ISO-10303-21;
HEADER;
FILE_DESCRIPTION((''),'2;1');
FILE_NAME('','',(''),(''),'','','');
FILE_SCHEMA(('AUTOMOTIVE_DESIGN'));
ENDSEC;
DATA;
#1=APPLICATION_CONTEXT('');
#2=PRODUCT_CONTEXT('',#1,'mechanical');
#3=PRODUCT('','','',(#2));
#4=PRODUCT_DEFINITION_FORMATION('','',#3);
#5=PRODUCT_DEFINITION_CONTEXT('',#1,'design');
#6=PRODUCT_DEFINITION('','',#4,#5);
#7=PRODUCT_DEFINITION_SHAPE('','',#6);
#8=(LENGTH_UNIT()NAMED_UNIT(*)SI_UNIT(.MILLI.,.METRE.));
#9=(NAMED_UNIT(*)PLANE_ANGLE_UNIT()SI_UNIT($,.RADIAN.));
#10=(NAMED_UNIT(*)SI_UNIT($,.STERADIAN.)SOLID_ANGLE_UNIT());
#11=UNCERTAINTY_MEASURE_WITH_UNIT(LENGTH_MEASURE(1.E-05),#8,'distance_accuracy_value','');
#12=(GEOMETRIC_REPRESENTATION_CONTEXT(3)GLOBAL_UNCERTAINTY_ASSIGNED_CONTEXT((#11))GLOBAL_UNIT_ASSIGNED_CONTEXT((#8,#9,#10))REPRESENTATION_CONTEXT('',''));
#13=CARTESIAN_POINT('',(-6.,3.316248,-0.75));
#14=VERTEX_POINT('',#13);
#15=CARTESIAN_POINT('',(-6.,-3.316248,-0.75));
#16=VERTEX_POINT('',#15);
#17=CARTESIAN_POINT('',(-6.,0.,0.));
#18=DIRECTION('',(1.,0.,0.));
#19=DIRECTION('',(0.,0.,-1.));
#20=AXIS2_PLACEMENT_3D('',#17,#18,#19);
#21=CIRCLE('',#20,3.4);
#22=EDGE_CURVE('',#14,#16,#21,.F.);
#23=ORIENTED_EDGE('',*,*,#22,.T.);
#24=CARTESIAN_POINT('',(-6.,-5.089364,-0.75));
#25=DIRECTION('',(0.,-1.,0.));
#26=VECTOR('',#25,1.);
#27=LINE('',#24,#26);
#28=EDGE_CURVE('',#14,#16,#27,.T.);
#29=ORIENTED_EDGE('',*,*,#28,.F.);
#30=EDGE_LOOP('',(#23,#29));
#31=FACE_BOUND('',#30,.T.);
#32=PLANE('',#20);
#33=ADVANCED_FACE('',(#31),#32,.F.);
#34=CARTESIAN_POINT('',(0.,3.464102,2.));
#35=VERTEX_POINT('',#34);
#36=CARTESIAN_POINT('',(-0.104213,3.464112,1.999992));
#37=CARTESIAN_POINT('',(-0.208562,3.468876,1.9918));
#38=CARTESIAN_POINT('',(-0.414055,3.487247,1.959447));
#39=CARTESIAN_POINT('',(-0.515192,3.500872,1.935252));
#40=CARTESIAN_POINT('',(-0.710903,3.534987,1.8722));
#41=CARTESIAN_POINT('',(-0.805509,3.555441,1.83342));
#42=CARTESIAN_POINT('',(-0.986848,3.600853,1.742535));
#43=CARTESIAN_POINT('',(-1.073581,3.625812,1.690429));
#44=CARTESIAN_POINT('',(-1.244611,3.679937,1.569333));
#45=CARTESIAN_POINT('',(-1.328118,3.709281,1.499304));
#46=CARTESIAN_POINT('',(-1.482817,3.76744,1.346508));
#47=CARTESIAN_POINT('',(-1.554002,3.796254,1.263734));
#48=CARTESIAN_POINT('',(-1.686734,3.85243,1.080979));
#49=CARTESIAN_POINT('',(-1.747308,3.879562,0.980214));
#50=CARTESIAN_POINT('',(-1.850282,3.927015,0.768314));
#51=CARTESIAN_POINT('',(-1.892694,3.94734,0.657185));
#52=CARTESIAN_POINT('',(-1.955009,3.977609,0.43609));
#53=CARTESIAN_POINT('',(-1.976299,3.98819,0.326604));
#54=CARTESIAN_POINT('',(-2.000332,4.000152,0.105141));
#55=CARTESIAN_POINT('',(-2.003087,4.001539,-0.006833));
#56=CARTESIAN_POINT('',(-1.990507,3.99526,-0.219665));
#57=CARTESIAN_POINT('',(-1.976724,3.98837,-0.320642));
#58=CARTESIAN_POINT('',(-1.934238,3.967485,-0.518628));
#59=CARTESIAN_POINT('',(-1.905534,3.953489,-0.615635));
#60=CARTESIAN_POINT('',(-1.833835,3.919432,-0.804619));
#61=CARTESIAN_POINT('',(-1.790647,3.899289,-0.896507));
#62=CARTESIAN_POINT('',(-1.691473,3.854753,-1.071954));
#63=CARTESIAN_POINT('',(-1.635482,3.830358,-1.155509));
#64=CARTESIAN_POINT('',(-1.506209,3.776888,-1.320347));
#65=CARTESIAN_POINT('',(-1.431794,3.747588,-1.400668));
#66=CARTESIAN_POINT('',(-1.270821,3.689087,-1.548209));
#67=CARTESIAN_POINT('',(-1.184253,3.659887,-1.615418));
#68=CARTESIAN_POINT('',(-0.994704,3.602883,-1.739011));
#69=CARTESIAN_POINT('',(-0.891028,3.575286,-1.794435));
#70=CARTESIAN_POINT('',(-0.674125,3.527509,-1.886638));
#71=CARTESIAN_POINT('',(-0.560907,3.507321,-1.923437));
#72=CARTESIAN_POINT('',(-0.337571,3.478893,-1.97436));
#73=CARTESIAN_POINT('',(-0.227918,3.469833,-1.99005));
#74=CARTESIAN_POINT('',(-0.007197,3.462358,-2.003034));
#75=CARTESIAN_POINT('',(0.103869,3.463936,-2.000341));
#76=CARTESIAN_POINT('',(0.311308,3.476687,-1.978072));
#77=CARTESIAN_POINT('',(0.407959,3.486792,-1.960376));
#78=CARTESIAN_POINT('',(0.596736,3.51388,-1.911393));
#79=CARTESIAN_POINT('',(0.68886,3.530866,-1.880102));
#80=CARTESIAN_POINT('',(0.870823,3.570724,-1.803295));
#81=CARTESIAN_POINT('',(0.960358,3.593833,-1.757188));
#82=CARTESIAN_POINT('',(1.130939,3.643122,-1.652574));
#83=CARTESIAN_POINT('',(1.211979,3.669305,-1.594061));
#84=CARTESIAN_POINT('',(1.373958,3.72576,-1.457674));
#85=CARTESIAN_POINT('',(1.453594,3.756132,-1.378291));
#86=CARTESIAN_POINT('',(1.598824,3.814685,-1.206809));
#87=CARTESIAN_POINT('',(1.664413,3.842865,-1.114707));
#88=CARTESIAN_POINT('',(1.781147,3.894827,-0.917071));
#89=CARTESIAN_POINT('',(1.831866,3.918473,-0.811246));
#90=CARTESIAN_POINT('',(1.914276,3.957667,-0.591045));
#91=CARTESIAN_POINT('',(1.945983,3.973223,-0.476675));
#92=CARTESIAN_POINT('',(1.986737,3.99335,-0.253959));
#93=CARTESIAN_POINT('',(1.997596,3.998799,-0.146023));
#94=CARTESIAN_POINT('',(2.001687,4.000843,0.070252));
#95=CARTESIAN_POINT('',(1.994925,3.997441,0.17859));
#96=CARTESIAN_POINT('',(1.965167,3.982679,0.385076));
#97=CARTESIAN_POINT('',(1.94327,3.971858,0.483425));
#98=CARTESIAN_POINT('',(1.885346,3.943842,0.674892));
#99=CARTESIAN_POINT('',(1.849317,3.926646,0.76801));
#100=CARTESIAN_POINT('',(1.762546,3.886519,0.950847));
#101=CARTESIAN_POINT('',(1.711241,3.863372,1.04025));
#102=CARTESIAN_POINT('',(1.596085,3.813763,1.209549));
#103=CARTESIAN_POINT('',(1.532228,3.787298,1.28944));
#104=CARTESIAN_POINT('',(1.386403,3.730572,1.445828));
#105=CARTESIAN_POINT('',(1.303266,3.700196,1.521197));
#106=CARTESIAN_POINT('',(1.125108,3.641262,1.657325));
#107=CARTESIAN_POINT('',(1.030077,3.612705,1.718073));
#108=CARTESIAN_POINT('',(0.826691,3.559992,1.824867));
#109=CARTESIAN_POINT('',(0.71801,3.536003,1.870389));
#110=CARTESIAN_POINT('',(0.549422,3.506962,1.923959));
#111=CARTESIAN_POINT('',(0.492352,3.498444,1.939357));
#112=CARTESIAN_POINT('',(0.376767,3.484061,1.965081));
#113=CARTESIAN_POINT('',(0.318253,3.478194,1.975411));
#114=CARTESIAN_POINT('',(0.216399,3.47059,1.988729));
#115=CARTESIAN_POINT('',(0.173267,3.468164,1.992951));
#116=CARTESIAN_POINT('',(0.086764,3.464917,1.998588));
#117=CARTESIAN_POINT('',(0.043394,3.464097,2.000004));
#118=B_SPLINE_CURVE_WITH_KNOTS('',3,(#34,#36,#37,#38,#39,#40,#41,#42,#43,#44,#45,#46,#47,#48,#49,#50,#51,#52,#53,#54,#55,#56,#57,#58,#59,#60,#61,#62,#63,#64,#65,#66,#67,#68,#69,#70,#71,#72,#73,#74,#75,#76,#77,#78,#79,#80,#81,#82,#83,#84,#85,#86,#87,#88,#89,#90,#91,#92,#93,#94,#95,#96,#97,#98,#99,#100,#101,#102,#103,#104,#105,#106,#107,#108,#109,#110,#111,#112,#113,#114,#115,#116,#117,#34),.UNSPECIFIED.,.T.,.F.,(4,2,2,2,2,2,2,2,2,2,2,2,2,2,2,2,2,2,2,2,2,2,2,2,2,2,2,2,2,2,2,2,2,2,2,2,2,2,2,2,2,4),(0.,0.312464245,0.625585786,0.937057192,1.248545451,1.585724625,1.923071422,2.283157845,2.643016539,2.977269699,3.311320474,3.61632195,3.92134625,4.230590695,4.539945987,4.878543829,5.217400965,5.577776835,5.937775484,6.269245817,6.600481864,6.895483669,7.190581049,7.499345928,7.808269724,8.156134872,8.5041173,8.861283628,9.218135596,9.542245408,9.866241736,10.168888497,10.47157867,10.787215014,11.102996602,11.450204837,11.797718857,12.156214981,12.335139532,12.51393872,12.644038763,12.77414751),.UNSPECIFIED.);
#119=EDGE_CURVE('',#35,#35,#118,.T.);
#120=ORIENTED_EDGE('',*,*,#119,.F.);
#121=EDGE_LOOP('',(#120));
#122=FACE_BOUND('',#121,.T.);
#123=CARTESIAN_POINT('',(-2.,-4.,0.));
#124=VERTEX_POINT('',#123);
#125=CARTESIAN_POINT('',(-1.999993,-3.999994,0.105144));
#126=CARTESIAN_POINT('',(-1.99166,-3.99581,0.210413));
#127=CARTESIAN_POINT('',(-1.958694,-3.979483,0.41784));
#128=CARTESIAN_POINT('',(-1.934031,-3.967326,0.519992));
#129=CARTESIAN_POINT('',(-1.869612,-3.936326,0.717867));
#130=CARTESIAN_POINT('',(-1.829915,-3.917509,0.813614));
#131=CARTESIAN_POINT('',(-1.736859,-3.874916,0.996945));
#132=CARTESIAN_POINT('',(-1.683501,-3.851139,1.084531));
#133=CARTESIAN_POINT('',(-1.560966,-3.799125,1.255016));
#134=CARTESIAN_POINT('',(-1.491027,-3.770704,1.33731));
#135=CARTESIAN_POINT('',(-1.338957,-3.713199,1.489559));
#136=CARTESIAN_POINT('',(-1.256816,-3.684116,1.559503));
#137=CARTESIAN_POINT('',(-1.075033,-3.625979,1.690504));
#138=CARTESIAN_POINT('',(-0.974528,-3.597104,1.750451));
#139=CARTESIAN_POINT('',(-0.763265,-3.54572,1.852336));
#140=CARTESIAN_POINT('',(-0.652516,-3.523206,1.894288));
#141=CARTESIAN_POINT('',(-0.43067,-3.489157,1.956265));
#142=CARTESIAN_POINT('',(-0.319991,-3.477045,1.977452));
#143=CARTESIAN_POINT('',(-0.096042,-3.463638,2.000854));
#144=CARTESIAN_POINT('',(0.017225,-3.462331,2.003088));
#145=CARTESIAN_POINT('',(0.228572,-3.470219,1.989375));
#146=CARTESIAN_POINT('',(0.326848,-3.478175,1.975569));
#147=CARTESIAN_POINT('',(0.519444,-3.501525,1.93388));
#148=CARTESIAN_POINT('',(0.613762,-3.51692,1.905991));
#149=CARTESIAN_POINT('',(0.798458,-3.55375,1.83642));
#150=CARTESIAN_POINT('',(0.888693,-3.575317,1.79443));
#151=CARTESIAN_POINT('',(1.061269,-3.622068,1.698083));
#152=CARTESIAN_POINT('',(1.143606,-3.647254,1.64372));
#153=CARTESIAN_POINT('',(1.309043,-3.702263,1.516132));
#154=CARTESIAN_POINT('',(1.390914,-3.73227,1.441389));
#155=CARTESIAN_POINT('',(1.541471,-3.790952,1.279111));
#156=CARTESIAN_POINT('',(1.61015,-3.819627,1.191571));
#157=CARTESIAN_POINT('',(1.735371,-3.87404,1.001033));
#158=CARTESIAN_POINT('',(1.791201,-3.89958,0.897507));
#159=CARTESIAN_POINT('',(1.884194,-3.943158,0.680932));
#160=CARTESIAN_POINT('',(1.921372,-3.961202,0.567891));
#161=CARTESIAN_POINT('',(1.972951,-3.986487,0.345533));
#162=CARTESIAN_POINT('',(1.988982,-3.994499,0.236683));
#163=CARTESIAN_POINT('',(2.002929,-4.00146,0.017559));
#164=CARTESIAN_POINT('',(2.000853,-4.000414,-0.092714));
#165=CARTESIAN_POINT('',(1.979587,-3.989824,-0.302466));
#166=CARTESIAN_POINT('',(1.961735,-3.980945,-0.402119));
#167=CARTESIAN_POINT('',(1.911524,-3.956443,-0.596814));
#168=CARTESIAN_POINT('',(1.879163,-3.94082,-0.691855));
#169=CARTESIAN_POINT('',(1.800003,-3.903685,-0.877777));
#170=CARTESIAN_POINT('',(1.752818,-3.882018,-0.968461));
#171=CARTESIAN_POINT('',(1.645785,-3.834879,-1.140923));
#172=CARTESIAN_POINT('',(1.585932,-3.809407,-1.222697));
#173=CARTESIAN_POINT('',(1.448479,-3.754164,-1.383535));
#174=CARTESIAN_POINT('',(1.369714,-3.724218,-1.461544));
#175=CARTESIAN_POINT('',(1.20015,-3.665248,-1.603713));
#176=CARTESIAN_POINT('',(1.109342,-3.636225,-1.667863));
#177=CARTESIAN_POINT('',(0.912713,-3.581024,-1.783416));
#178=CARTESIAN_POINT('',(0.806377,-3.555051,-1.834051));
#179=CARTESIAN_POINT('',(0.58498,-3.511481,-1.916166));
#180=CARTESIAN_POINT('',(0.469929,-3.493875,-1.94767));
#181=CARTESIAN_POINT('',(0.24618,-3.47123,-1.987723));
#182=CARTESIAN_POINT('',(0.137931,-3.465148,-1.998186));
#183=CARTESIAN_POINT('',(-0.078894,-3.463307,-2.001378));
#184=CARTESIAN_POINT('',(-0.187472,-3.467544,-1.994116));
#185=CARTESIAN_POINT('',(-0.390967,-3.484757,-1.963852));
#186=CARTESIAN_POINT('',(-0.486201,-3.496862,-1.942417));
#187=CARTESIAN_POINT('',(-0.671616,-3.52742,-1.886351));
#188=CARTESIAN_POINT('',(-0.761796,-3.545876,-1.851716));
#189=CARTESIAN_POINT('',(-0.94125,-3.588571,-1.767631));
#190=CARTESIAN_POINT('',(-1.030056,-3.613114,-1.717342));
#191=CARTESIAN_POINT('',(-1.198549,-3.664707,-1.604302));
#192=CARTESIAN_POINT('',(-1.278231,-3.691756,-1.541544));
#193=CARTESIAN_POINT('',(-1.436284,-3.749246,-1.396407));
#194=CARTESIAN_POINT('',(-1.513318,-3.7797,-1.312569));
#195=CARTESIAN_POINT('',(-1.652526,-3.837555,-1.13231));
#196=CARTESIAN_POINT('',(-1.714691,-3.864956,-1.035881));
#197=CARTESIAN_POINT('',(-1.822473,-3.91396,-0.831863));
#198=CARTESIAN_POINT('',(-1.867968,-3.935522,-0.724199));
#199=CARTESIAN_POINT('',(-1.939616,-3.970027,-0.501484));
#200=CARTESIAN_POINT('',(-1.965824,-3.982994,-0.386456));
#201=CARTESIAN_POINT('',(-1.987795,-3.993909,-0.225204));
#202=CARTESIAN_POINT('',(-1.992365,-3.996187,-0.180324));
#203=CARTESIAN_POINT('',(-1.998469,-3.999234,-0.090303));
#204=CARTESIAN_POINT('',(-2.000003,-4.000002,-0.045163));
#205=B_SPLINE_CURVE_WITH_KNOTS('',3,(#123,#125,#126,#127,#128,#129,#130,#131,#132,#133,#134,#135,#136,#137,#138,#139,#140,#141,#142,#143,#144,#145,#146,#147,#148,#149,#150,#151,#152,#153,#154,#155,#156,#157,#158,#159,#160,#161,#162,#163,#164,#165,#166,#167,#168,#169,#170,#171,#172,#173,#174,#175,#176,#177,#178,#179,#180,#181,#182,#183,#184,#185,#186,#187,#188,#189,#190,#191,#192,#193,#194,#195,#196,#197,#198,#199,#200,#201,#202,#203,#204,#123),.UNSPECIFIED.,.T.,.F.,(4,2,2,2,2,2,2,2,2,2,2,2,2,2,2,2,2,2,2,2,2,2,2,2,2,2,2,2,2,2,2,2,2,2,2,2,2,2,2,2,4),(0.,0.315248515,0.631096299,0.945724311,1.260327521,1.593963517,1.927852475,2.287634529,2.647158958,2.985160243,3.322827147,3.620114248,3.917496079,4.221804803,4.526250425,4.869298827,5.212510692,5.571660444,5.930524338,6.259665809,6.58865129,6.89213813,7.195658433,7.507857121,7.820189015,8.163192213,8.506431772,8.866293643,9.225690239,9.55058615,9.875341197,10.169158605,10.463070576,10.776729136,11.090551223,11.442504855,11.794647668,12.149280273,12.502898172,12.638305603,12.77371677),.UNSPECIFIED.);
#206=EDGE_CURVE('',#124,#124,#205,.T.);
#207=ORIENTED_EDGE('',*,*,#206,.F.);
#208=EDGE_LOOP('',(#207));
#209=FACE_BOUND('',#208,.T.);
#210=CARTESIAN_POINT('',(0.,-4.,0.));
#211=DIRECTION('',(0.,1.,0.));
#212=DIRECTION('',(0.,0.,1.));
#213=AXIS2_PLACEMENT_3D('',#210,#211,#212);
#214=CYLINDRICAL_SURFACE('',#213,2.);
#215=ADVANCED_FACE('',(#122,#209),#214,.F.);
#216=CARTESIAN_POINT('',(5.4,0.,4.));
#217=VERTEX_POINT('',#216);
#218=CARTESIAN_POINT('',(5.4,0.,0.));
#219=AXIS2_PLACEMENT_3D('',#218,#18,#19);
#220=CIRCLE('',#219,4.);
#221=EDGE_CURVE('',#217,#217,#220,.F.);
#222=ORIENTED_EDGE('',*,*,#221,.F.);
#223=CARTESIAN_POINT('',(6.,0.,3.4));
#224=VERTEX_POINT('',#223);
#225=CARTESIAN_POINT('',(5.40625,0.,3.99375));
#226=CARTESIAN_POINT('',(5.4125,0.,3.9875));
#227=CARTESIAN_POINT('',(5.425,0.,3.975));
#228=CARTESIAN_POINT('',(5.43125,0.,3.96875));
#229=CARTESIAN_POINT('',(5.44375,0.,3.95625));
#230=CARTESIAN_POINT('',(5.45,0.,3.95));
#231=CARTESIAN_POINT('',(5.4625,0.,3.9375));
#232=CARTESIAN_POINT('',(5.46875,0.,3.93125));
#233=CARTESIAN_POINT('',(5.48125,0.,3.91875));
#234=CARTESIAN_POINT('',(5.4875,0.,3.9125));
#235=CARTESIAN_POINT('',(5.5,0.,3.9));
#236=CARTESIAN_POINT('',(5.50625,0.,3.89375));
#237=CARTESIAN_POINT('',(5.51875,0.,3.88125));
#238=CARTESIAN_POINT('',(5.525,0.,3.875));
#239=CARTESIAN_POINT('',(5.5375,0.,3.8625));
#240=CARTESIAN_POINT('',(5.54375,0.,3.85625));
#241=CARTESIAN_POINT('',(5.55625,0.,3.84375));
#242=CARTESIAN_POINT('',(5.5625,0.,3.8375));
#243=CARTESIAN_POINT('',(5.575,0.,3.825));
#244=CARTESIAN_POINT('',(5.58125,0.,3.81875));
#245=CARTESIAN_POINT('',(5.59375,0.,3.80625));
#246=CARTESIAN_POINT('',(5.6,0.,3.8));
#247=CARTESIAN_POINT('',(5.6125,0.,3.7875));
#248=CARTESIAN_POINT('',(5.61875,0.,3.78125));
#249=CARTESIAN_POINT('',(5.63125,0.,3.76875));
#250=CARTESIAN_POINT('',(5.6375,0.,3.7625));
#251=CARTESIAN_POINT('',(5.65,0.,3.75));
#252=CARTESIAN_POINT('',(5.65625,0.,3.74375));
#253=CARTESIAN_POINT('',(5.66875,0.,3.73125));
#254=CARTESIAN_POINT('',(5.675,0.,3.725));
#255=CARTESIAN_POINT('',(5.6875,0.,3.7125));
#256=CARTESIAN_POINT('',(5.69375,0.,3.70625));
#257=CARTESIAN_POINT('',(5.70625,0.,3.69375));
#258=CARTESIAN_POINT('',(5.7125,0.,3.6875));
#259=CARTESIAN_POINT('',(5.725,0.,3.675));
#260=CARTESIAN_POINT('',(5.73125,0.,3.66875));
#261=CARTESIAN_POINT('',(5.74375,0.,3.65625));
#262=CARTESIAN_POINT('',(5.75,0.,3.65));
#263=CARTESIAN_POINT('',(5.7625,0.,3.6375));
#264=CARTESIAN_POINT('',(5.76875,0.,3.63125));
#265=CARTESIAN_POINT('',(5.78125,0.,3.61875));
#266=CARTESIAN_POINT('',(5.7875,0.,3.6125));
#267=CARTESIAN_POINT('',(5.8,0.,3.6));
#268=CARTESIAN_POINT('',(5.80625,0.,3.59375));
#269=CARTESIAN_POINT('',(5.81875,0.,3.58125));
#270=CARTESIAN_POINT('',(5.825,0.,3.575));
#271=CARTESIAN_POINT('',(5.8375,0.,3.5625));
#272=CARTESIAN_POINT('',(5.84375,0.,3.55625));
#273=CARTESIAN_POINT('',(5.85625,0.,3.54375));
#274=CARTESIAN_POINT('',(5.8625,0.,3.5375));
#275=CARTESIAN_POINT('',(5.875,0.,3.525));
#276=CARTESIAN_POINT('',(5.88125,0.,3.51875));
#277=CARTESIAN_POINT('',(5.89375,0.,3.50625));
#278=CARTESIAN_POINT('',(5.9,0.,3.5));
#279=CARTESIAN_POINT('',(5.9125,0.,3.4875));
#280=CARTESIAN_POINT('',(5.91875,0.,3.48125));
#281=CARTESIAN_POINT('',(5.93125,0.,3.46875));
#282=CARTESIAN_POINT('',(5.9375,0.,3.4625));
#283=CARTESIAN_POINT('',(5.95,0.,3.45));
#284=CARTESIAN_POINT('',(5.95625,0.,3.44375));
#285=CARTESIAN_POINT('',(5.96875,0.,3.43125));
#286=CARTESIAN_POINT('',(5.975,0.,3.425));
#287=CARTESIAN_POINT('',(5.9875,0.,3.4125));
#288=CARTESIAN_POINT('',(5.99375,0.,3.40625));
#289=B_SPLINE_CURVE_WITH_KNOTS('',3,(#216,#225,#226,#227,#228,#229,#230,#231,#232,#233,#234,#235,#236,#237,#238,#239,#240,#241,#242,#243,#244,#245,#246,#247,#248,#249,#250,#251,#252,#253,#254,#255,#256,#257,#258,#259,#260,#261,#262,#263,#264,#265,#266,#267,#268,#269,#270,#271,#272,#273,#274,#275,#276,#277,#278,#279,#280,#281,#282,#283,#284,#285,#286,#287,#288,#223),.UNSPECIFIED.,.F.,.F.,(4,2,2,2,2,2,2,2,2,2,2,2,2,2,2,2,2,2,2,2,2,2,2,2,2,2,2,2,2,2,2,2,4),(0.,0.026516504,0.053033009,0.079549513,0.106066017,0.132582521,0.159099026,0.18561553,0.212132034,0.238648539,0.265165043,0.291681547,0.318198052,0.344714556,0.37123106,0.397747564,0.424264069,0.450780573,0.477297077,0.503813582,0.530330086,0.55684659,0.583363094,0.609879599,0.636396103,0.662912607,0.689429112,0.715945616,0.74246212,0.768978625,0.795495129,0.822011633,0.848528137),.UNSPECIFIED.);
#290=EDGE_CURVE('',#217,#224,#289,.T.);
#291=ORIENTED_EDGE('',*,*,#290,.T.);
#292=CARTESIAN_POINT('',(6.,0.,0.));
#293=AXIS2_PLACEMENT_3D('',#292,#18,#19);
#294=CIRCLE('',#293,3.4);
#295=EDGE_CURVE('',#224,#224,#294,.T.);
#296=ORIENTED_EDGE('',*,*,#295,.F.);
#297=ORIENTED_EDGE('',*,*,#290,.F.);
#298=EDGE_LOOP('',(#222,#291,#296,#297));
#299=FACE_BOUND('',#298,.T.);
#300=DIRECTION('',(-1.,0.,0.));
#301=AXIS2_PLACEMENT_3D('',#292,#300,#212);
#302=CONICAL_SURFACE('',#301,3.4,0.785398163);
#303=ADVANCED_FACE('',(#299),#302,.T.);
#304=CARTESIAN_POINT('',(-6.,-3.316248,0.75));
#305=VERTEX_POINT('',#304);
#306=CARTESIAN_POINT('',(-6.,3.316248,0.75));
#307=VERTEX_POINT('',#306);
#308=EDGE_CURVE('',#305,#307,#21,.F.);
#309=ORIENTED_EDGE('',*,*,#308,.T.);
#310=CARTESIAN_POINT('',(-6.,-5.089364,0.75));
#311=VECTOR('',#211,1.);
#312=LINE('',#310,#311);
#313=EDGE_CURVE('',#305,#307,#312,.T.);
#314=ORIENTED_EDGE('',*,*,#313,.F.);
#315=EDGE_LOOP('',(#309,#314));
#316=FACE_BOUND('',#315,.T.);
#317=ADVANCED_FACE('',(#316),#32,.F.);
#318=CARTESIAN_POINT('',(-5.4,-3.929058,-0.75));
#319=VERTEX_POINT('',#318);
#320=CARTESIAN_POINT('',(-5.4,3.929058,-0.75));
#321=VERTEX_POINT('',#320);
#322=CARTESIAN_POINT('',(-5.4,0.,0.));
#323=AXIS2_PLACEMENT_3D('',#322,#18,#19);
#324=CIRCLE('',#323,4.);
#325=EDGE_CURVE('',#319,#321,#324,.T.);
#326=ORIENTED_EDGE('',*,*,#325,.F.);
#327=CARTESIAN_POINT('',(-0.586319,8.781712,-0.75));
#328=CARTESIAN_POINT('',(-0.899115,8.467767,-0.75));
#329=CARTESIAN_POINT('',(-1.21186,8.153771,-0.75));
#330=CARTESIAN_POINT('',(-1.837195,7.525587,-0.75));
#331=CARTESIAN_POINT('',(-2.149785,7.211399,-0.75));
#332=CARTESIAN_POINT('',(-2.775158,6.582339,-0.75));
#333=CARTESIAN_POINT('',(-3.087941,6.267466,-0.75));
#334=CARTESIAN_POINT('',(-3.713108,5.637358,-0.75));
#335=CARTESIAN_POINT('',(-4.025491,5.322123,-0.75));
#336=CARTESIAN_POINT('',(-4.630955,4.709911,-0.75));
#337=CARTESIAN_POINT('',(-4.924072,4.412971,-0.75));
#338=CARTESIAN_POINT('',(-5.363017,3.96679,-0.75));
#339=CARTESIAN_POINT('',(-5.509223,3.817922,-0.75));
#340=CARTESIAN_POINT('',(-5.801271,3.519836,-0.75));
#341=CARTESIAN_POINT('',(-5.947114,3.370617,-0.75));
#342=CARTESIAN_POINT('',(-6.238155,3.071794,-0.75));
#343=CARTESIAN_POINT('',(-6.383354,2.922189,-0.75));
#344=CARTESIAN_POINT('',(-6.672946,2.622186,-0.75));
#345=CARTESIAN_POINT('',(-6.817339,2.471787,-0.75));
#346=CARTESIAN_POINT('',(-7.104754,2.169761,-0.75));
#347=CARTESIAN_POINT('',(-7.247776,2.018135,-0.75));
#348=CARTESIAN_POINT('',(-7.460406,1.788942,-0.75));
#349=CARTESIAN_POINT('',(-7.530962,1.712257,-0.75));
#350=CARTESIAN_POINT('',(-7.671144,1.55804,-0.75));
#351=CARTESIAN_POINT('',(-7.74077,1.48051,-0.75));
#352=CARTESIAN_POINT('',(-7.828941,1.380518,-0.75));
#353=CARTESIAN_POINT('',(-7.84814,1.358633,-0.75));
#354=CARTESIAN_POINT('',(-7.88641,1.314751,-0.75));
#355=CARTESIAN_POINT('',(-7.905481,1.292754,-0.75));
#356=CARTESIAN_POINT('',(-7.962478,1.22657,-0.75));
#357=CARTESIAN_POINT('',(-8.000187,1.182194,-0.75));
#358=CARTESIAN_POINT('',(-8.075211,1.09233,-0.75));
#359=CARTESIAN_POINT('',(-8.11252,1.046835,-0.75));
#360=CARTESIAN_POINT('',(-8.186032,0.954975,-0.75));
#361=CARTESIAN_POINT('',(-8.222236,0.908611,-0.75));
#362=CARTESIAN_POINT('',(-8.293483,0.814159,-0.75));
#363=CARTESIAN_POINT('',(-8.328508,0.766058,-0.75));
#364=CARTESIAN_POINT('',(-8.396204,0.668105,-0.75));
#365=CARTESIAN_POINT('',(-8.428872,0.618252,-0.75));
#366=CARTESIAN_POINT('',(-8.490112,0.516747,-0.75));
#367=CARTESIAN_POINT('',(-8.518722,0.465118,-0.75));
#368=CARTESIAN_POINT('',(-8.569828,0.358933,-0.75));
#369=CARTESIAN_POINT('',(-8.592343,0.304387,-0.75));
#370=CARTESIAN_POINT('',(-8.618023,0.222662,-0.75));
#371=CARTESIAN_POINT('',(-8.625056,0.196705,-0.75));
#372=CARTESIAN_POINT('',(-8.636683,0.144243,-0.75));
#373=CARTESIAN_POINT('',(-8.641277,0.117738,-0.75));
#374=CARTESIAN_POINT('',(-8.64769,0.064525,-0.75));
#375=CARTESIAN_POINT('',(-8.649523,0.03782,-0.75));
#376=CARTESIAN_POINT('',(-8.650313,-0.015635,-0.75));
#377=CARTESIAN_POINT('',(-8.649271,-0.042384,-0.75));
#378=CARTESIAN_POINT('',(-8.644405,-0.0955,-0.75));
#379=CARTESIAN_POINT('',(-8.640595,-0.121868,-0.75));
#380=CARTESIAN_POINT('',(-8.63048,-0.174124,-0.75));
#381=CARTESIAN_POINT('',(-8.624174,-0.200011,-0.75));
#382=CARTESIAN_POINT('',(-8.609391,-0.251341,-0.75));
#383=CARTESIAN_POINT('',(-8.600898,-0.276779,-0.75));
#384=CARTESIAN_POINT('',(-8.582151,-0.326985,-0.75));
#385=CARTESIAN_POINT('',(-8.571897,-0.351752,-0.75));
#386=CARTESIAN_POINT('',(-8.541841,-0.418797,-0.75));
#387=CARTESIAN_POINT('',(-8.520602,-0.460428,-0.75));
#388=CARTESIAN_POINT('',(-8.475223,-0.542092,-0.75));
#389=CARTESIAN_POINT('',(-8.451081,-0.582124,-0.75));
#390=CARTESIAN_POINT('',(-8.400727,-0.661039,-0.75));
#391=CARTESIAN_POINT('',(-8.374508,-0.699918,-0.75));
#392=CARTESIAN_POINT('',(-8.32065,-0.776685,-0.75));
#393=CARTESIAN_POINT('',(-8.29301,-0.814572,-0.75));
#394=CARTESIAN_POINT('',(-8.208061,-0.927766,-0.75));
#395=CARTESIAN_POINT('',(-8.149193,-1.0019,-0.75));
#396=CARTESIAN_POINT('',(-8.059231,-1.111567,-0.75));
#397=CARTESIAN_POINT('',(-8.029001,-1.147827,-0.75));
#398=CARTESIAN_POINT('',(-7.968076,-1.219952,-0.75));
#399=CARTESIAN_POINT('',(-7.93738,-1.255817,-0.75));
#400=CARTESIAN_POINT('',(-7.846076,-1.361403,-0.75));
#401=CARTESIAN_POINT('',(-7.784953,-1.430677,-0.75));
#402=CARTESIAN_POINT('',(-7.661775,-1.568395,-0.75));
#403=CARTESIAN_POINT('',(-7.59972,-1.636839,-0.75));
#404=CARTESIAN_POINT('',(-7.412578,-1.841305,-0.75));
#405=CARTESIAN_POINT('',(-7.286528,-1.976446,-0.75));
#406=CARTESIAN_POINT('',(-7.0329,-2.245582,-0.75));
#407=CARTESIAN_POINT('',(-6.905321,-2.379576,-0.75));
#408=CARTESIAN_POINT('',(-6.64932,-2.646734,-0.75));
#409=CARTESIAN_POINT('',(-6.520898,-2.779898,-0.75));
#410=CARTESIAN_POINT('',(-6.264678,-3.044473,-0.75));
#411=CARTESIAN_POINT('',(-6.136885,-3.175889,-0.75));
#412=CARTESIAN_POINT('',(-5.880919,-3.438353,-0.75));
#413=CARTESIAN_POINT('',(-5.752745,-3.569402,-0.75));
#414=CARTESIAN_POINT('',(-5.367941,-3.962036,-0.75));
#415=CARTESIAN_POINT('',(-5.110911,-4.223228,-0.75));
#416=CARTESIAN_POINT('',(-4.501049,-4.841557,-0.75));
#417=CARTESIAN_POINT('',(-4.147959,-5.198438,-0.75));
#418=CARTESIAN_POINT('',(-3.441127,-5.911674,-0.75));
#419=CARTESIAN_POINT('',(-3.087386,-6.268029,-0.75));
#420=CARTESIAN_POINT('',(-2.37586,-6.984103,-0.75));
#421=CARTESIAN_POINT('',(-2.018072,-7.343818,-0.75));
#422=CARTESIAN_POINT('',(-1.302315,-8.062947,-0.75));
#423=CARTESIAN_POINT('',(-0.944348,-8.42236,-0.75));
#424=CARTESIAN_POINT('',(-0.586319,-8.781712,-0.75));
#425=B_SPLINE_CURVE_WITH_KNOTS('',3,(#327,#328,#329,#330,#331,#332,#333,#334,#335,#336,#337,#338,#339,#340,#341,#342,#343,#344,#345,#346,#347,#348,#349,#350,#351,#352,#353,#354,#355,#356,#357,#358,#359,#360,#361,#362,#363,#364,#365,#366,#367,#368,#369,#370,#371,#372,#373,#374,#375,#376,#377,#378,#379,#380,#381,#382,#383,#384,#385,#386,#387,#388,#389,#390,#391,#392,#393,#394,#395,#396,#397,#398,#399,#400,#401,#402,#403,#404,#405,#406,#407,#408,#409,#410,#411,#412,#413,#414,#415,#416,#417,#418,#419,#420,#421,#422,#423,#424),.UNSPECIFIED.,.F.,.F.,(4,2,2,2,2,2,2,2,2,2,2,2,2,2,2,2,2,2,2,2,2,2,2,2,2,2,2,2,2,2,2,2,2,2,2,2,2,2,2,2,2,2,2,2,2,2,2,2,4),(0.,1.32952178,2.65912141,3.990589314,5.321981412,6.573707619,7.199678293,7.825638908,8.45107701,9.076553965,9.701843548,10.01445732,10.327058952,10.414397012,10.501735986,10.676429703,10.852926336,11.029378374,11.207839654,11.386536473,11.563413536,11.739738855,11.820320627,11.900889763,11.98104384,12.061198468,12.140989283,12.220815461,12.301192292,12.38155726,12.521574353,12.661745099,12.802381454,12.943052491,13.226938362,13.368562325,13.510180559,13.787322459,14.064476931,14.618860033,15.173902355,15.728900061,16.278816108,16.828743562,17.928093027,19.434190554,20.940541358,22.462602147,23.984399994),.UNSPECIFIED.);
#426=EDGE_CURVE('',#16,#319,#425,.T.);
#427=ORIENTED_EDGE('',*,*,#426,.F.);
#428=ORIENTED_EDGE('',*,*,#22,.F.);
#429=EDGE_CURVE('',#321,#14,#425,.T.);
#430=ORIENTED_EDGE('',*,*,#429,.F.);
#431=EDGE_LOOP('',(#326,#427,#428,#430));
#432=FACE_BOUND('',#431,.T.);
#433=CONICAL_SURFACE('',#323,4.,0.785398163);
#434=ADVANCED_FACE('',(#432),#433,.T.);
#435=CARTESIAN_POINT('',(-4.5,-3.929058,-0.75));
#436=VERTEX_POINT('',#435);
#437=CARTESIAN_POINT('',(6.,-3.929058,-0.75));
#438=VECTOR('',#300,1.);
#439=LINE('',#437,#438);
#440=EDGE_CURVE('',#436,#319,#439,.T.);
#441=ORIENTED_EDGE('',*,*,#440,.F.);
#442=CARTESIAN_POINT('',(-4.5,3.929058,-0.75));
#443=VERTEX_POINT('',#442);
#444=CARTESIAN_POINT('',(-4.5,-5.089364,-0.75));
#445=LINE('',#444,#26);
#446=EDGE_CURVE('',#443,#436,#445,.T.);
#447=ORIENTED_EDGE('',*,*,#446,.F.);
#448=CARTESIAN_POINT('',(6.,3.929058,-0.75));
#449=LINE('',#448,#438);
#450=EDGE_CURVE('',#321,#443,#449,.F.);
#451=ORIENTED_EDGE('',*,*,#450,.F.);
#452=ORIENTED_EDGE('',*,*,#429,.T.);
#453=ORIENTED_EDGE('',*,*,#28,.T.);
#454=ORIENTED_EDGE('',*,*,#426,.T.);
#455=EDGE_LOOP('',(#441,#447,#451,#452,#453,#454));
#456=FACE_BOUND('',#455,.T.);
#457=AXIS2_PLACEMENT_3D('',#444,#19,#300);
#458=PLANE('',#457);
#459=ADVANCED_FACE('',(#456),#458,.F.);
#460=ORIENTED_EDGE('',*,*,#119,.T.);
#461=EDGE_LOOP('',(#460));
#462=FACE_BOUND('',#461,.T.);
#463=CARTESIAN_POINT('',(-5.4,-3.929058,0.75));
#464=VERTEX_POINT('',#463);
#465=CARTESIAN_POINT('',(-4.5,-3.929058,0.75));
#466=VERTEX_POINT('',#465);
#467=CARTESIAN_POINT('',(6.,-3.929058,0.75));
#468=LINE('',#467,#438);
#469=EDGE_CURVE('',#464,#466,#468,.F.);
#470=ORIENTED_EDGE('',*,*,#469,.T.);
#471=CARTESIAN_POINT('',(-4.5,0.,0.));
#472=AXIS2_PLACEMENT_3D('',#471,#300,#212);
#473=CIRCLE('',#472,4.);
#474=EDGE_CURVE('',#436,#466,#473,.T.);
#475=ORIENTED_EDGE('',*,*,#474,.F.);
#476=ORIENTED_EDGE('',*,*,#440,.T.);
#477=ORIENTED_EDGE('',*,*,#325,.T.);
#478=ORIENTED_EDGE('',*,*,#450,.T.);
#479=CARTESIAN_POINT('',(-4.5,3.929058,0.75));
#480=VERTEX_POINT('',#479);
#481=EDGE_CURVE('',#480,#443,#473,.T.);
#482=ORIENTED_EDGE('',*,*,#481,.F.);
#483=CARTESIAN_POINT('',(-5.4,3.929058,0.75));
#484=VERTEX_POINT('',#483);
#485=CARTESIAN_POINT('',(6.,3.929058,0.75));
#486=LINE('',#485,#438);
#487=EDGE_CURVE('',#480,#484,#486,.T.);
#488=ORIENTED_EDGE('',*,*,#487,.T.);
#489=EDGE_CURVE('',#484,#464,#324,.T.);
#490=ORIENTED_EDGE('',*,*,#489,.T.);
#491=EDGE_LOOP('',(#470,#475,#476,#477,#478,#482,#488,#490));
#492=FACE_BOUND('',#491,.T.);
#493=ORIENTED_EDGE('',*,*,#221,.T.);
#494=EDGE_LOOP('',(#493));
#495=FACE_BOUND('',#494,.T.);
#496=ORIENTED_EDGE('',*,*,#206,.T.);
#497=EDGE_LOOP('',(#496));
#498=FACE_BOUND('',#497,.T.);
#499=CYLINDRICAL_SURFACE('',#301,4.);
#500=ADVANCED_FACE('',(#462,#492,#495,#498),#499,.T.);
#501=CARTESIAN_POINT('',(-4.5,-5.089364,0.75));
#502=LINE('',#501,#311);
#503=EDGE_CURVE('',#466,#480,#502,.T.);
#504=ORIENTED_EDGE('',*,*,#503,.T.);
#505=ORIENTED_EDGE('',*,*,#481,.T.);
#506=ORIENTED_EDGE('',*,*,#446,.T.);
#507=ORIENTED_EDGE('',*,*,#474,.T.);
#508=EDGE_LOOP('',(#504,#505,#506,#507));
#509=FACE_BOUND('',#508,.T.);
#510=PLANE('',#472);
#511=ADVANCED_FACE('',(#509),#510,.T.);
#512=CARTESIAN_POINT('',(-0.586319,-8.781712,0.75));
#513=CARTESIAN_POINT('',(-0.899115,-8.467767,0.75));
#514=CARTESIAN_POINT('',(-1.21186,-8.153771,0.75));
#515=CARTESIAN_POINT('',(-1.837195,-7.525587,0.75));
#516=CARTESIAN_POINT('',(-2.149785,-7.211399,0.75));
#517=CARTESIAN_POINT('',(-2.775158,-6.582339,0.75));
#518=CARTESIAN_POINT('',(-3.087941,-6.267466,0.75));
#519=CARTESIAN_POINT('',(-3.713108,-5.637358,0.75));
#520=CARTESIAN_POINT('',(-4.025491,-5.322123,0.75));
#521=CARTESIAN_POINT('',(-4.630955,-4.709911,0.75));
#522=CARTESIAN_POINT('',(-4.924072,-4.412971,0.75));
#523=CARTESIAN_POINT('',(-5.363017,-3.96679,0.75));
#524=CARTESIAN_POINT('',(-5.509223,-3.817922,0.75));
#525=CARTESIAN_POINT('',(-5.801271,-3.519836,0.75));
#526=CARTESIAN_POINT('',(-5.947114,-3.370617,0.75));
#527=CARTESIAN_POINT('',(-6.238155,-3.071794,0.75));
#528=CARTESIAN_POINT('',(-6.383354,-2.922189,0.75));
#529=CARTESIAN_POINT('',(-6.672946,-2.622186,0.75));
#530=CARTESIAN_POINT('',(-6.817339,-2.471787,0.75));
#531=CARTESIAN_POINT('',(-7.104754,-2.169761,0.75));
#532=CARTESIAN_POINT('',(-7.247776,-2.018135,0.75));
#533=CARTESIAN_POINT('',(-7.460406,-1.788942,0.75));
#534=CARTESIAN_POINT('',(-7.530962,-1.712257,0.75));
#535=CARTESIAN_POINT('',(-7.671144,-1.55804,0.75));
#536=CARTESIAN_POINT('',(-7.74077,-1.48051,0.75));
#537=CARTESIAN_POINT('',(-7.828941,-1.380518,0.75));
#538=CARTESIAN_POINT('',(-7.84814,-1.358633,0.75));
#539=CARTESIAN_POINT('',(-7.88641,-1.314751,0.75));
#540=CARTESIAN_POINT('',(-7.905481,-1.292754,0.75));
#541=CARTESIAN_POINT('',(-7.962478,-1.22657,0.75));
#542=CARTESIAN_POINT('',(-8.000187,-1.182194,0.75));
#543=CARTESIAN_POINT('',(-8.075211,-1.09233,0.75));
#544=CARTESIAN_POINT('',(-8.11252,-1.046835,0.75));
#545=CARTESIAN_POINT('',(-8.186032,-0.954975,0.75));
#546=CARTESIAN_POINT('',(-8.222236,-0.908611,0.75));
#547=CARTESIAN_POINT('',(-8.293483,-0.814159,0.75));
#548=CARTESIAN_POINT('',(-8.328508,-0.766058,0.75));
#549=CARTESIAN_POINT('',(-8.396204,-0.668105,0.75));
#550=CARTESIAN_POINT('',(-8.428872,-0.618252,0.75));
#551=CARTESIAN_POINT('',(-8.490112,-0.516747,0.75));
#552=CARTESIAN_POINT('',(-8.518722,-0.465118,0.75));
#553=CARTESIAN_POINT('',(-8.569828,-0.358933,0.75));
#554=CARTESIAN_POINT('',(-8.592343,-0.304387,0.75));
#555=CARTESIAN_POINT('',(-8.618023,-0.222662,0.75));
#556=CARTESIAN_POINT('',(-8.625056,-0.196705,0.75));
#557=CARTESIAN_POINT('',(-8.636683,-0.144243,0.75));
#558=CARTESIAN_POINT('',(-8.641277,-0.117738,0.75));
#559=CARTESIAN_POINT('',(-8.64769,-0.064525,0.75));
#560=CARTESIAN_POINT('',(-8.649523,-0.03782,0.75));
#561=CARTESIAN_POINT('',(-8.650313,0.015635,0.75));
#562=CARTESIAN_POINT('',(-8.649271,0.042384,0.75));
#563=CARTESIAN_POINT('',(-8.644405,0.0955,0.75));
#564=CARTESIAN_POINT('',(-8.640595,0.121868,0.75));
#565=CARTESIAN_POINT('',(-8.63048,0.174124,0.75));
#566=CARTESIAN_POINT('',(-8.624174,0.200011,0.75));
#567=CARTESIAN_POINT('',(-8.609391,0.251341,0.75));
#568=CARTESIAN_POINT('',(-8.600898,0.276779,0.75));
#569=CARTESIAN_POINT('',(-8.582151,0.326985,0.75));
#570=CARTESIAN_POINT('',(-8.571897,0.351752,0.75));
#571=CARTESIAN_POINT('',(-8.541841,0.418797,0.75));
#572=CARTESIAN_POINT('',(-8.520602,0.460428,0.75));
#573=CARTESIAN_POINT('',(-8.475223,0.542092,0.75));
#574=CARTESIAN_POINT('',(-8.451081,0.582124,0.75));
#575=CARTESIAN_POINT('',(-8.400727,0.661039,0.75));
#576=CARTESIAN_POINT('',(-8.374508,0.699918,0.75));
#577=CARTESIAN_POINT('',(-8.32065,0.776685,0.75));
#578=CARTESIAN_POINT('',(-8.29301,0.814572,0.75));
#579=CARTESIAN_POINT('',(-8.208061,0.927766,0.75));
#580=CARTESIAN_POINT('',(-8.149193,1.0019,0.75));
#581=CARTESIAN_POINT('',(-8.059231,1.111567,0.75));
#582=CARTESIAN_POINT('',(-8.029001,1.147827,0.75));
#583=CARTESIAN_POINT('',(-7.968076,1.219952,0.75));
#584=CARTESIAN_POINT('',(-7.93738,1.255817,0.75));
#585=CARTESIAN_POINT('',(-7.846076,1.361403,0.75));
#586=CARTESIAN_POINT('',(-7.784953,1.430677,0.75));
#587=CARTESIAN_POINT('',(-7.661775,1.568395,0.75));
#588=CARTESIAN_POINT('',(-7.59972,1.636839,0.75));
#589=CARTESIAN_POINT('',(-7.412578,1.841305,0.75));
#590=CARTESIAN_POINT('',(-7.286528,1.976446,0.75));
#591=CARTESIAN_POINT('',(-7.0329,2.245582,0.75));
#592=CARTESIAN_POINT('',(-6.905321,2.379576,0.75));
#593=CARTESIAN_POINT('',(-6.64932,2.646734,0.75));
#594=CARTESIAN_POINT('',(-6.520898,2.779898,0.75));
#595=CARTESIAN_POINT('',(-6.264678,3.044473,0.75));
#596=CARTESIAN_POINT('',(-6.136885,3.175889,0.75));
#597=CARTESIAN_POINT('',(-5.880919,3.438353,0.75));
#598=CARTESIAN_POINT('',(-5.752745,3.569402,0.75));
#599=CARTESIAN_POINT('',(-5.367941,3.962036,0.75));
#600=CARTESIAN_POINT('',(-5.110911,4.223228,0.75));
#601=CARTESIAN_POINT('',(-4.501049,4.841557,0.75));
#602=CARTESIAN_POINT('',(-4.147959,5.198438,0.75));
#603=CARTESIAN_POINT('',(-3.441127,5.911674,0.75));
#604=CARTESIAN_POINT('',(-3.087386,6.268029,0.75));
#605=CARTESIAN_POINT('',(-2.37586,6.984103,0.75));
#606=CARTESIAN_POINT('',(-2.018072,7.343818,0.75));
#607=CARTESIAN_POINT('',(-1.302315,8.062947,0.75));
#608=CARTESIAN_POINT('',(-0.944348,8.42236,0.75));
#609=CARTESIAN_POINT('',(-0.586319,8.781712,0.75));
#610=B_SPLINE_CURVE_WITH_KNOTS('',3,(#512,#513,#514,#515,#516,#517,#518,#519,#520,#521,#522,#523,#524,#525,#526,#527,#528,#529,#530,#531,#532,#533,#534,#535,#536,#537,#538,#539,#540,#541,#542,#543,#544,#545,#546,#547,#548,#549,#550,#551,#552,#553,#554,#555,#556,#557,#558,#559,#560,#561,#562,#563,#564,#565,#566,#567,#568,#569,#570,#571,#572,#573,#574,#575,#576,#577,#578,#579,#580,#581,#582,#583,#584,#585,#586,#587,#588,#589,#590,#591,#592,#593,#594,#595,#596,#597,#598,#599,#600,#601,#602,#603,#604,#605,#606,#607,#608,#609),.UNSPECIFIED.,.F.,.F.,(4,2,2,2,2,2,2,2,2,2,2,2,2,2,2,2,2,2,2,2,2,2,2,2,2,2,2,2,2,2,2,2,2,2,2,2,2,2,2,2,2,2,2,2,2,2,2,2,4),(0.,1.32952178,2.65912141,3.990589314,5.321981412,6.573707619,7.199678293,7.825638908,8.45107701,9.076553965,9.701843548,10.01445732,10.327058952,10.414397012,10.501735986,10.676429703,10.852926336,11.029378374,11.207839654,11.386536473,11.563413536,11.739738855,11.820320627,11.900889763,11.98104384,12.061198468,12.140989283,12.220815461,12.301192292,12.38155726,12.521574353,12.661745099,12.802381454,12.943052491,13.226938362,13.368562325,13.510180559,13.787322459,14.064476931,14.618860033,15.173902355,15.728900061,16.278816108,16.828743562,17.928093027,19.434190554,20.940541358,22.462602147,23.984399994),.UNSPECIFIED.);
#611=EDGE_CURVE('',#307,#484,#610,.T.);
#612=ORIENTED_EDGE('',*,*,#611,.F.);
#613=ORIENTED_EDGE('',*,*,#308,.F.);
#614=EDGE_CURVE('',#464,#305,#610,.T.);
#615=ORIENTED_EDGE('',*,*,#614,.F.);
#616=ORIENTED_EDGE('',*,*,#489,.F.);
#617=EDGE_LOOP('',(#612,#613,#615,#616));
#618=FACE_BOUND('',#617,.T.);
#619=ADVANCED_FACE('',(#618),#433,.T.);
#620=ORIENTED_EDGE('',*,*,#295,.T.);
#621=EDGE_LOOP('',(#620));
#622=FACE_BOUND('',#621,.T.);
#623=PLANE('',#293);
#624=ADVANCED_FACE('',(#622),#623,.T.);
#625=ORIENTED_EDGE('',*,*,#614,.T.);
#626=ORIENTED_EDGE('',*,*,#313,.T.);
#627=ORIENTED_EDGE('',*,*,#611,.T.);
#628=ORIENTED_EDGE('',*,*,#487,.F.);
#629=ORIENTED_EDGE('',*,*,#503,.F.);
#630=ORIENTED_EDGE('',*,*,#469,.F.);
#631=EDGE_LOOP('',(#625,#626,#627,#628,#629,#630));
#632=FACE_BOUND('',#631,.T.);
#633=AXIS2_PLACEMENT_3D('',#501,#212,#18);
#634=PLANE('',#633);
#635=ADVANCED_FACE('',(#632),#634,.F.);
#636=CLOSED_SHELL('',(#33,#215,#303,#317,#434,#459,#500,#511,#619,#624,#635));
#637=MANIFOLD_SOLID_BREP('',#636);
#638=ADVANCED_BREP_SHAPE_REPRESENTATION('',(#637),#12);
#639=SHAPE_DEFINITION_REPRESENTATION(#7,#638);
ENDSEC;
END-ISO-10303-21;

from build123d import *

# Parameters (mm, degrees)
SKETCH1_R               = 4
BOSS_EXTRUDE1_DEPTH     = 6
CHAMFER1_SIZE           = 0.6
CUT_EXTRUDE1_DEPTH      = 9.246211251
CUT_EXTRUDE1_DEPTH_BACK = 9.246211251
SKETCH2_R               = 2
SKETCH3_W               = 1.5
SKETCH3_H               = 10.178727068
CUT_EXTRUDE2_DEPTH      = 1.5


with BuildPart() as part:
    # Sketch1 → Boss-Extrude1 (new, symmetric)
    with BuildSketch(Plane(origin=(0, 0, 0), x_dir=(0, 0, -1), z_dir=(1, 0, 0))):
        Circle(SKETCH1_R)
    extrude(amount=BOSS_EXTRUDE1_DEPTH, both=True)

    # Chamfer1
    chamfer1_edges = [part.edges().sort_by_distance(p)[0] for p in [
        (-6, 0, 4),
        (6, 0, 4),
    ]]
    chamfer(chamfer1_edges, length=CHAMFER1_SIZE)

    # Sketch2 → Cut-Extrude1 (cut, two sides: drawn at the far end of the back side and taken through both)
    with BuildSketch(Plane(origin=(0, 0, 0), x_dir=(1, 0, 0), z_dir=(0, 1, 0)).offset(-CUT_EXTRUDE1_DEPTH_BACK)):
        with Locations(Location((0, 0, 0), (0, 0, 270))):
            Circle(SKETCH2_R)
    extrude(amount=CUT_EXTRUDE1_DEPTH + CUT_EXTRUDE1_DEPTH_BACK, mode=Mode.SUBTRACT)

    # Sketch3 → Cut-Extrude2 (cut)
    with BuildSketch(Plane.ZY.offset(6)):
        Rectangle(SKETCH3_W, SKETCH3_H)
    extrude(amount=-CUT_EXTRUDE2_DEPTH, mode=Mode.SUBTRACT)


solid = part.part
